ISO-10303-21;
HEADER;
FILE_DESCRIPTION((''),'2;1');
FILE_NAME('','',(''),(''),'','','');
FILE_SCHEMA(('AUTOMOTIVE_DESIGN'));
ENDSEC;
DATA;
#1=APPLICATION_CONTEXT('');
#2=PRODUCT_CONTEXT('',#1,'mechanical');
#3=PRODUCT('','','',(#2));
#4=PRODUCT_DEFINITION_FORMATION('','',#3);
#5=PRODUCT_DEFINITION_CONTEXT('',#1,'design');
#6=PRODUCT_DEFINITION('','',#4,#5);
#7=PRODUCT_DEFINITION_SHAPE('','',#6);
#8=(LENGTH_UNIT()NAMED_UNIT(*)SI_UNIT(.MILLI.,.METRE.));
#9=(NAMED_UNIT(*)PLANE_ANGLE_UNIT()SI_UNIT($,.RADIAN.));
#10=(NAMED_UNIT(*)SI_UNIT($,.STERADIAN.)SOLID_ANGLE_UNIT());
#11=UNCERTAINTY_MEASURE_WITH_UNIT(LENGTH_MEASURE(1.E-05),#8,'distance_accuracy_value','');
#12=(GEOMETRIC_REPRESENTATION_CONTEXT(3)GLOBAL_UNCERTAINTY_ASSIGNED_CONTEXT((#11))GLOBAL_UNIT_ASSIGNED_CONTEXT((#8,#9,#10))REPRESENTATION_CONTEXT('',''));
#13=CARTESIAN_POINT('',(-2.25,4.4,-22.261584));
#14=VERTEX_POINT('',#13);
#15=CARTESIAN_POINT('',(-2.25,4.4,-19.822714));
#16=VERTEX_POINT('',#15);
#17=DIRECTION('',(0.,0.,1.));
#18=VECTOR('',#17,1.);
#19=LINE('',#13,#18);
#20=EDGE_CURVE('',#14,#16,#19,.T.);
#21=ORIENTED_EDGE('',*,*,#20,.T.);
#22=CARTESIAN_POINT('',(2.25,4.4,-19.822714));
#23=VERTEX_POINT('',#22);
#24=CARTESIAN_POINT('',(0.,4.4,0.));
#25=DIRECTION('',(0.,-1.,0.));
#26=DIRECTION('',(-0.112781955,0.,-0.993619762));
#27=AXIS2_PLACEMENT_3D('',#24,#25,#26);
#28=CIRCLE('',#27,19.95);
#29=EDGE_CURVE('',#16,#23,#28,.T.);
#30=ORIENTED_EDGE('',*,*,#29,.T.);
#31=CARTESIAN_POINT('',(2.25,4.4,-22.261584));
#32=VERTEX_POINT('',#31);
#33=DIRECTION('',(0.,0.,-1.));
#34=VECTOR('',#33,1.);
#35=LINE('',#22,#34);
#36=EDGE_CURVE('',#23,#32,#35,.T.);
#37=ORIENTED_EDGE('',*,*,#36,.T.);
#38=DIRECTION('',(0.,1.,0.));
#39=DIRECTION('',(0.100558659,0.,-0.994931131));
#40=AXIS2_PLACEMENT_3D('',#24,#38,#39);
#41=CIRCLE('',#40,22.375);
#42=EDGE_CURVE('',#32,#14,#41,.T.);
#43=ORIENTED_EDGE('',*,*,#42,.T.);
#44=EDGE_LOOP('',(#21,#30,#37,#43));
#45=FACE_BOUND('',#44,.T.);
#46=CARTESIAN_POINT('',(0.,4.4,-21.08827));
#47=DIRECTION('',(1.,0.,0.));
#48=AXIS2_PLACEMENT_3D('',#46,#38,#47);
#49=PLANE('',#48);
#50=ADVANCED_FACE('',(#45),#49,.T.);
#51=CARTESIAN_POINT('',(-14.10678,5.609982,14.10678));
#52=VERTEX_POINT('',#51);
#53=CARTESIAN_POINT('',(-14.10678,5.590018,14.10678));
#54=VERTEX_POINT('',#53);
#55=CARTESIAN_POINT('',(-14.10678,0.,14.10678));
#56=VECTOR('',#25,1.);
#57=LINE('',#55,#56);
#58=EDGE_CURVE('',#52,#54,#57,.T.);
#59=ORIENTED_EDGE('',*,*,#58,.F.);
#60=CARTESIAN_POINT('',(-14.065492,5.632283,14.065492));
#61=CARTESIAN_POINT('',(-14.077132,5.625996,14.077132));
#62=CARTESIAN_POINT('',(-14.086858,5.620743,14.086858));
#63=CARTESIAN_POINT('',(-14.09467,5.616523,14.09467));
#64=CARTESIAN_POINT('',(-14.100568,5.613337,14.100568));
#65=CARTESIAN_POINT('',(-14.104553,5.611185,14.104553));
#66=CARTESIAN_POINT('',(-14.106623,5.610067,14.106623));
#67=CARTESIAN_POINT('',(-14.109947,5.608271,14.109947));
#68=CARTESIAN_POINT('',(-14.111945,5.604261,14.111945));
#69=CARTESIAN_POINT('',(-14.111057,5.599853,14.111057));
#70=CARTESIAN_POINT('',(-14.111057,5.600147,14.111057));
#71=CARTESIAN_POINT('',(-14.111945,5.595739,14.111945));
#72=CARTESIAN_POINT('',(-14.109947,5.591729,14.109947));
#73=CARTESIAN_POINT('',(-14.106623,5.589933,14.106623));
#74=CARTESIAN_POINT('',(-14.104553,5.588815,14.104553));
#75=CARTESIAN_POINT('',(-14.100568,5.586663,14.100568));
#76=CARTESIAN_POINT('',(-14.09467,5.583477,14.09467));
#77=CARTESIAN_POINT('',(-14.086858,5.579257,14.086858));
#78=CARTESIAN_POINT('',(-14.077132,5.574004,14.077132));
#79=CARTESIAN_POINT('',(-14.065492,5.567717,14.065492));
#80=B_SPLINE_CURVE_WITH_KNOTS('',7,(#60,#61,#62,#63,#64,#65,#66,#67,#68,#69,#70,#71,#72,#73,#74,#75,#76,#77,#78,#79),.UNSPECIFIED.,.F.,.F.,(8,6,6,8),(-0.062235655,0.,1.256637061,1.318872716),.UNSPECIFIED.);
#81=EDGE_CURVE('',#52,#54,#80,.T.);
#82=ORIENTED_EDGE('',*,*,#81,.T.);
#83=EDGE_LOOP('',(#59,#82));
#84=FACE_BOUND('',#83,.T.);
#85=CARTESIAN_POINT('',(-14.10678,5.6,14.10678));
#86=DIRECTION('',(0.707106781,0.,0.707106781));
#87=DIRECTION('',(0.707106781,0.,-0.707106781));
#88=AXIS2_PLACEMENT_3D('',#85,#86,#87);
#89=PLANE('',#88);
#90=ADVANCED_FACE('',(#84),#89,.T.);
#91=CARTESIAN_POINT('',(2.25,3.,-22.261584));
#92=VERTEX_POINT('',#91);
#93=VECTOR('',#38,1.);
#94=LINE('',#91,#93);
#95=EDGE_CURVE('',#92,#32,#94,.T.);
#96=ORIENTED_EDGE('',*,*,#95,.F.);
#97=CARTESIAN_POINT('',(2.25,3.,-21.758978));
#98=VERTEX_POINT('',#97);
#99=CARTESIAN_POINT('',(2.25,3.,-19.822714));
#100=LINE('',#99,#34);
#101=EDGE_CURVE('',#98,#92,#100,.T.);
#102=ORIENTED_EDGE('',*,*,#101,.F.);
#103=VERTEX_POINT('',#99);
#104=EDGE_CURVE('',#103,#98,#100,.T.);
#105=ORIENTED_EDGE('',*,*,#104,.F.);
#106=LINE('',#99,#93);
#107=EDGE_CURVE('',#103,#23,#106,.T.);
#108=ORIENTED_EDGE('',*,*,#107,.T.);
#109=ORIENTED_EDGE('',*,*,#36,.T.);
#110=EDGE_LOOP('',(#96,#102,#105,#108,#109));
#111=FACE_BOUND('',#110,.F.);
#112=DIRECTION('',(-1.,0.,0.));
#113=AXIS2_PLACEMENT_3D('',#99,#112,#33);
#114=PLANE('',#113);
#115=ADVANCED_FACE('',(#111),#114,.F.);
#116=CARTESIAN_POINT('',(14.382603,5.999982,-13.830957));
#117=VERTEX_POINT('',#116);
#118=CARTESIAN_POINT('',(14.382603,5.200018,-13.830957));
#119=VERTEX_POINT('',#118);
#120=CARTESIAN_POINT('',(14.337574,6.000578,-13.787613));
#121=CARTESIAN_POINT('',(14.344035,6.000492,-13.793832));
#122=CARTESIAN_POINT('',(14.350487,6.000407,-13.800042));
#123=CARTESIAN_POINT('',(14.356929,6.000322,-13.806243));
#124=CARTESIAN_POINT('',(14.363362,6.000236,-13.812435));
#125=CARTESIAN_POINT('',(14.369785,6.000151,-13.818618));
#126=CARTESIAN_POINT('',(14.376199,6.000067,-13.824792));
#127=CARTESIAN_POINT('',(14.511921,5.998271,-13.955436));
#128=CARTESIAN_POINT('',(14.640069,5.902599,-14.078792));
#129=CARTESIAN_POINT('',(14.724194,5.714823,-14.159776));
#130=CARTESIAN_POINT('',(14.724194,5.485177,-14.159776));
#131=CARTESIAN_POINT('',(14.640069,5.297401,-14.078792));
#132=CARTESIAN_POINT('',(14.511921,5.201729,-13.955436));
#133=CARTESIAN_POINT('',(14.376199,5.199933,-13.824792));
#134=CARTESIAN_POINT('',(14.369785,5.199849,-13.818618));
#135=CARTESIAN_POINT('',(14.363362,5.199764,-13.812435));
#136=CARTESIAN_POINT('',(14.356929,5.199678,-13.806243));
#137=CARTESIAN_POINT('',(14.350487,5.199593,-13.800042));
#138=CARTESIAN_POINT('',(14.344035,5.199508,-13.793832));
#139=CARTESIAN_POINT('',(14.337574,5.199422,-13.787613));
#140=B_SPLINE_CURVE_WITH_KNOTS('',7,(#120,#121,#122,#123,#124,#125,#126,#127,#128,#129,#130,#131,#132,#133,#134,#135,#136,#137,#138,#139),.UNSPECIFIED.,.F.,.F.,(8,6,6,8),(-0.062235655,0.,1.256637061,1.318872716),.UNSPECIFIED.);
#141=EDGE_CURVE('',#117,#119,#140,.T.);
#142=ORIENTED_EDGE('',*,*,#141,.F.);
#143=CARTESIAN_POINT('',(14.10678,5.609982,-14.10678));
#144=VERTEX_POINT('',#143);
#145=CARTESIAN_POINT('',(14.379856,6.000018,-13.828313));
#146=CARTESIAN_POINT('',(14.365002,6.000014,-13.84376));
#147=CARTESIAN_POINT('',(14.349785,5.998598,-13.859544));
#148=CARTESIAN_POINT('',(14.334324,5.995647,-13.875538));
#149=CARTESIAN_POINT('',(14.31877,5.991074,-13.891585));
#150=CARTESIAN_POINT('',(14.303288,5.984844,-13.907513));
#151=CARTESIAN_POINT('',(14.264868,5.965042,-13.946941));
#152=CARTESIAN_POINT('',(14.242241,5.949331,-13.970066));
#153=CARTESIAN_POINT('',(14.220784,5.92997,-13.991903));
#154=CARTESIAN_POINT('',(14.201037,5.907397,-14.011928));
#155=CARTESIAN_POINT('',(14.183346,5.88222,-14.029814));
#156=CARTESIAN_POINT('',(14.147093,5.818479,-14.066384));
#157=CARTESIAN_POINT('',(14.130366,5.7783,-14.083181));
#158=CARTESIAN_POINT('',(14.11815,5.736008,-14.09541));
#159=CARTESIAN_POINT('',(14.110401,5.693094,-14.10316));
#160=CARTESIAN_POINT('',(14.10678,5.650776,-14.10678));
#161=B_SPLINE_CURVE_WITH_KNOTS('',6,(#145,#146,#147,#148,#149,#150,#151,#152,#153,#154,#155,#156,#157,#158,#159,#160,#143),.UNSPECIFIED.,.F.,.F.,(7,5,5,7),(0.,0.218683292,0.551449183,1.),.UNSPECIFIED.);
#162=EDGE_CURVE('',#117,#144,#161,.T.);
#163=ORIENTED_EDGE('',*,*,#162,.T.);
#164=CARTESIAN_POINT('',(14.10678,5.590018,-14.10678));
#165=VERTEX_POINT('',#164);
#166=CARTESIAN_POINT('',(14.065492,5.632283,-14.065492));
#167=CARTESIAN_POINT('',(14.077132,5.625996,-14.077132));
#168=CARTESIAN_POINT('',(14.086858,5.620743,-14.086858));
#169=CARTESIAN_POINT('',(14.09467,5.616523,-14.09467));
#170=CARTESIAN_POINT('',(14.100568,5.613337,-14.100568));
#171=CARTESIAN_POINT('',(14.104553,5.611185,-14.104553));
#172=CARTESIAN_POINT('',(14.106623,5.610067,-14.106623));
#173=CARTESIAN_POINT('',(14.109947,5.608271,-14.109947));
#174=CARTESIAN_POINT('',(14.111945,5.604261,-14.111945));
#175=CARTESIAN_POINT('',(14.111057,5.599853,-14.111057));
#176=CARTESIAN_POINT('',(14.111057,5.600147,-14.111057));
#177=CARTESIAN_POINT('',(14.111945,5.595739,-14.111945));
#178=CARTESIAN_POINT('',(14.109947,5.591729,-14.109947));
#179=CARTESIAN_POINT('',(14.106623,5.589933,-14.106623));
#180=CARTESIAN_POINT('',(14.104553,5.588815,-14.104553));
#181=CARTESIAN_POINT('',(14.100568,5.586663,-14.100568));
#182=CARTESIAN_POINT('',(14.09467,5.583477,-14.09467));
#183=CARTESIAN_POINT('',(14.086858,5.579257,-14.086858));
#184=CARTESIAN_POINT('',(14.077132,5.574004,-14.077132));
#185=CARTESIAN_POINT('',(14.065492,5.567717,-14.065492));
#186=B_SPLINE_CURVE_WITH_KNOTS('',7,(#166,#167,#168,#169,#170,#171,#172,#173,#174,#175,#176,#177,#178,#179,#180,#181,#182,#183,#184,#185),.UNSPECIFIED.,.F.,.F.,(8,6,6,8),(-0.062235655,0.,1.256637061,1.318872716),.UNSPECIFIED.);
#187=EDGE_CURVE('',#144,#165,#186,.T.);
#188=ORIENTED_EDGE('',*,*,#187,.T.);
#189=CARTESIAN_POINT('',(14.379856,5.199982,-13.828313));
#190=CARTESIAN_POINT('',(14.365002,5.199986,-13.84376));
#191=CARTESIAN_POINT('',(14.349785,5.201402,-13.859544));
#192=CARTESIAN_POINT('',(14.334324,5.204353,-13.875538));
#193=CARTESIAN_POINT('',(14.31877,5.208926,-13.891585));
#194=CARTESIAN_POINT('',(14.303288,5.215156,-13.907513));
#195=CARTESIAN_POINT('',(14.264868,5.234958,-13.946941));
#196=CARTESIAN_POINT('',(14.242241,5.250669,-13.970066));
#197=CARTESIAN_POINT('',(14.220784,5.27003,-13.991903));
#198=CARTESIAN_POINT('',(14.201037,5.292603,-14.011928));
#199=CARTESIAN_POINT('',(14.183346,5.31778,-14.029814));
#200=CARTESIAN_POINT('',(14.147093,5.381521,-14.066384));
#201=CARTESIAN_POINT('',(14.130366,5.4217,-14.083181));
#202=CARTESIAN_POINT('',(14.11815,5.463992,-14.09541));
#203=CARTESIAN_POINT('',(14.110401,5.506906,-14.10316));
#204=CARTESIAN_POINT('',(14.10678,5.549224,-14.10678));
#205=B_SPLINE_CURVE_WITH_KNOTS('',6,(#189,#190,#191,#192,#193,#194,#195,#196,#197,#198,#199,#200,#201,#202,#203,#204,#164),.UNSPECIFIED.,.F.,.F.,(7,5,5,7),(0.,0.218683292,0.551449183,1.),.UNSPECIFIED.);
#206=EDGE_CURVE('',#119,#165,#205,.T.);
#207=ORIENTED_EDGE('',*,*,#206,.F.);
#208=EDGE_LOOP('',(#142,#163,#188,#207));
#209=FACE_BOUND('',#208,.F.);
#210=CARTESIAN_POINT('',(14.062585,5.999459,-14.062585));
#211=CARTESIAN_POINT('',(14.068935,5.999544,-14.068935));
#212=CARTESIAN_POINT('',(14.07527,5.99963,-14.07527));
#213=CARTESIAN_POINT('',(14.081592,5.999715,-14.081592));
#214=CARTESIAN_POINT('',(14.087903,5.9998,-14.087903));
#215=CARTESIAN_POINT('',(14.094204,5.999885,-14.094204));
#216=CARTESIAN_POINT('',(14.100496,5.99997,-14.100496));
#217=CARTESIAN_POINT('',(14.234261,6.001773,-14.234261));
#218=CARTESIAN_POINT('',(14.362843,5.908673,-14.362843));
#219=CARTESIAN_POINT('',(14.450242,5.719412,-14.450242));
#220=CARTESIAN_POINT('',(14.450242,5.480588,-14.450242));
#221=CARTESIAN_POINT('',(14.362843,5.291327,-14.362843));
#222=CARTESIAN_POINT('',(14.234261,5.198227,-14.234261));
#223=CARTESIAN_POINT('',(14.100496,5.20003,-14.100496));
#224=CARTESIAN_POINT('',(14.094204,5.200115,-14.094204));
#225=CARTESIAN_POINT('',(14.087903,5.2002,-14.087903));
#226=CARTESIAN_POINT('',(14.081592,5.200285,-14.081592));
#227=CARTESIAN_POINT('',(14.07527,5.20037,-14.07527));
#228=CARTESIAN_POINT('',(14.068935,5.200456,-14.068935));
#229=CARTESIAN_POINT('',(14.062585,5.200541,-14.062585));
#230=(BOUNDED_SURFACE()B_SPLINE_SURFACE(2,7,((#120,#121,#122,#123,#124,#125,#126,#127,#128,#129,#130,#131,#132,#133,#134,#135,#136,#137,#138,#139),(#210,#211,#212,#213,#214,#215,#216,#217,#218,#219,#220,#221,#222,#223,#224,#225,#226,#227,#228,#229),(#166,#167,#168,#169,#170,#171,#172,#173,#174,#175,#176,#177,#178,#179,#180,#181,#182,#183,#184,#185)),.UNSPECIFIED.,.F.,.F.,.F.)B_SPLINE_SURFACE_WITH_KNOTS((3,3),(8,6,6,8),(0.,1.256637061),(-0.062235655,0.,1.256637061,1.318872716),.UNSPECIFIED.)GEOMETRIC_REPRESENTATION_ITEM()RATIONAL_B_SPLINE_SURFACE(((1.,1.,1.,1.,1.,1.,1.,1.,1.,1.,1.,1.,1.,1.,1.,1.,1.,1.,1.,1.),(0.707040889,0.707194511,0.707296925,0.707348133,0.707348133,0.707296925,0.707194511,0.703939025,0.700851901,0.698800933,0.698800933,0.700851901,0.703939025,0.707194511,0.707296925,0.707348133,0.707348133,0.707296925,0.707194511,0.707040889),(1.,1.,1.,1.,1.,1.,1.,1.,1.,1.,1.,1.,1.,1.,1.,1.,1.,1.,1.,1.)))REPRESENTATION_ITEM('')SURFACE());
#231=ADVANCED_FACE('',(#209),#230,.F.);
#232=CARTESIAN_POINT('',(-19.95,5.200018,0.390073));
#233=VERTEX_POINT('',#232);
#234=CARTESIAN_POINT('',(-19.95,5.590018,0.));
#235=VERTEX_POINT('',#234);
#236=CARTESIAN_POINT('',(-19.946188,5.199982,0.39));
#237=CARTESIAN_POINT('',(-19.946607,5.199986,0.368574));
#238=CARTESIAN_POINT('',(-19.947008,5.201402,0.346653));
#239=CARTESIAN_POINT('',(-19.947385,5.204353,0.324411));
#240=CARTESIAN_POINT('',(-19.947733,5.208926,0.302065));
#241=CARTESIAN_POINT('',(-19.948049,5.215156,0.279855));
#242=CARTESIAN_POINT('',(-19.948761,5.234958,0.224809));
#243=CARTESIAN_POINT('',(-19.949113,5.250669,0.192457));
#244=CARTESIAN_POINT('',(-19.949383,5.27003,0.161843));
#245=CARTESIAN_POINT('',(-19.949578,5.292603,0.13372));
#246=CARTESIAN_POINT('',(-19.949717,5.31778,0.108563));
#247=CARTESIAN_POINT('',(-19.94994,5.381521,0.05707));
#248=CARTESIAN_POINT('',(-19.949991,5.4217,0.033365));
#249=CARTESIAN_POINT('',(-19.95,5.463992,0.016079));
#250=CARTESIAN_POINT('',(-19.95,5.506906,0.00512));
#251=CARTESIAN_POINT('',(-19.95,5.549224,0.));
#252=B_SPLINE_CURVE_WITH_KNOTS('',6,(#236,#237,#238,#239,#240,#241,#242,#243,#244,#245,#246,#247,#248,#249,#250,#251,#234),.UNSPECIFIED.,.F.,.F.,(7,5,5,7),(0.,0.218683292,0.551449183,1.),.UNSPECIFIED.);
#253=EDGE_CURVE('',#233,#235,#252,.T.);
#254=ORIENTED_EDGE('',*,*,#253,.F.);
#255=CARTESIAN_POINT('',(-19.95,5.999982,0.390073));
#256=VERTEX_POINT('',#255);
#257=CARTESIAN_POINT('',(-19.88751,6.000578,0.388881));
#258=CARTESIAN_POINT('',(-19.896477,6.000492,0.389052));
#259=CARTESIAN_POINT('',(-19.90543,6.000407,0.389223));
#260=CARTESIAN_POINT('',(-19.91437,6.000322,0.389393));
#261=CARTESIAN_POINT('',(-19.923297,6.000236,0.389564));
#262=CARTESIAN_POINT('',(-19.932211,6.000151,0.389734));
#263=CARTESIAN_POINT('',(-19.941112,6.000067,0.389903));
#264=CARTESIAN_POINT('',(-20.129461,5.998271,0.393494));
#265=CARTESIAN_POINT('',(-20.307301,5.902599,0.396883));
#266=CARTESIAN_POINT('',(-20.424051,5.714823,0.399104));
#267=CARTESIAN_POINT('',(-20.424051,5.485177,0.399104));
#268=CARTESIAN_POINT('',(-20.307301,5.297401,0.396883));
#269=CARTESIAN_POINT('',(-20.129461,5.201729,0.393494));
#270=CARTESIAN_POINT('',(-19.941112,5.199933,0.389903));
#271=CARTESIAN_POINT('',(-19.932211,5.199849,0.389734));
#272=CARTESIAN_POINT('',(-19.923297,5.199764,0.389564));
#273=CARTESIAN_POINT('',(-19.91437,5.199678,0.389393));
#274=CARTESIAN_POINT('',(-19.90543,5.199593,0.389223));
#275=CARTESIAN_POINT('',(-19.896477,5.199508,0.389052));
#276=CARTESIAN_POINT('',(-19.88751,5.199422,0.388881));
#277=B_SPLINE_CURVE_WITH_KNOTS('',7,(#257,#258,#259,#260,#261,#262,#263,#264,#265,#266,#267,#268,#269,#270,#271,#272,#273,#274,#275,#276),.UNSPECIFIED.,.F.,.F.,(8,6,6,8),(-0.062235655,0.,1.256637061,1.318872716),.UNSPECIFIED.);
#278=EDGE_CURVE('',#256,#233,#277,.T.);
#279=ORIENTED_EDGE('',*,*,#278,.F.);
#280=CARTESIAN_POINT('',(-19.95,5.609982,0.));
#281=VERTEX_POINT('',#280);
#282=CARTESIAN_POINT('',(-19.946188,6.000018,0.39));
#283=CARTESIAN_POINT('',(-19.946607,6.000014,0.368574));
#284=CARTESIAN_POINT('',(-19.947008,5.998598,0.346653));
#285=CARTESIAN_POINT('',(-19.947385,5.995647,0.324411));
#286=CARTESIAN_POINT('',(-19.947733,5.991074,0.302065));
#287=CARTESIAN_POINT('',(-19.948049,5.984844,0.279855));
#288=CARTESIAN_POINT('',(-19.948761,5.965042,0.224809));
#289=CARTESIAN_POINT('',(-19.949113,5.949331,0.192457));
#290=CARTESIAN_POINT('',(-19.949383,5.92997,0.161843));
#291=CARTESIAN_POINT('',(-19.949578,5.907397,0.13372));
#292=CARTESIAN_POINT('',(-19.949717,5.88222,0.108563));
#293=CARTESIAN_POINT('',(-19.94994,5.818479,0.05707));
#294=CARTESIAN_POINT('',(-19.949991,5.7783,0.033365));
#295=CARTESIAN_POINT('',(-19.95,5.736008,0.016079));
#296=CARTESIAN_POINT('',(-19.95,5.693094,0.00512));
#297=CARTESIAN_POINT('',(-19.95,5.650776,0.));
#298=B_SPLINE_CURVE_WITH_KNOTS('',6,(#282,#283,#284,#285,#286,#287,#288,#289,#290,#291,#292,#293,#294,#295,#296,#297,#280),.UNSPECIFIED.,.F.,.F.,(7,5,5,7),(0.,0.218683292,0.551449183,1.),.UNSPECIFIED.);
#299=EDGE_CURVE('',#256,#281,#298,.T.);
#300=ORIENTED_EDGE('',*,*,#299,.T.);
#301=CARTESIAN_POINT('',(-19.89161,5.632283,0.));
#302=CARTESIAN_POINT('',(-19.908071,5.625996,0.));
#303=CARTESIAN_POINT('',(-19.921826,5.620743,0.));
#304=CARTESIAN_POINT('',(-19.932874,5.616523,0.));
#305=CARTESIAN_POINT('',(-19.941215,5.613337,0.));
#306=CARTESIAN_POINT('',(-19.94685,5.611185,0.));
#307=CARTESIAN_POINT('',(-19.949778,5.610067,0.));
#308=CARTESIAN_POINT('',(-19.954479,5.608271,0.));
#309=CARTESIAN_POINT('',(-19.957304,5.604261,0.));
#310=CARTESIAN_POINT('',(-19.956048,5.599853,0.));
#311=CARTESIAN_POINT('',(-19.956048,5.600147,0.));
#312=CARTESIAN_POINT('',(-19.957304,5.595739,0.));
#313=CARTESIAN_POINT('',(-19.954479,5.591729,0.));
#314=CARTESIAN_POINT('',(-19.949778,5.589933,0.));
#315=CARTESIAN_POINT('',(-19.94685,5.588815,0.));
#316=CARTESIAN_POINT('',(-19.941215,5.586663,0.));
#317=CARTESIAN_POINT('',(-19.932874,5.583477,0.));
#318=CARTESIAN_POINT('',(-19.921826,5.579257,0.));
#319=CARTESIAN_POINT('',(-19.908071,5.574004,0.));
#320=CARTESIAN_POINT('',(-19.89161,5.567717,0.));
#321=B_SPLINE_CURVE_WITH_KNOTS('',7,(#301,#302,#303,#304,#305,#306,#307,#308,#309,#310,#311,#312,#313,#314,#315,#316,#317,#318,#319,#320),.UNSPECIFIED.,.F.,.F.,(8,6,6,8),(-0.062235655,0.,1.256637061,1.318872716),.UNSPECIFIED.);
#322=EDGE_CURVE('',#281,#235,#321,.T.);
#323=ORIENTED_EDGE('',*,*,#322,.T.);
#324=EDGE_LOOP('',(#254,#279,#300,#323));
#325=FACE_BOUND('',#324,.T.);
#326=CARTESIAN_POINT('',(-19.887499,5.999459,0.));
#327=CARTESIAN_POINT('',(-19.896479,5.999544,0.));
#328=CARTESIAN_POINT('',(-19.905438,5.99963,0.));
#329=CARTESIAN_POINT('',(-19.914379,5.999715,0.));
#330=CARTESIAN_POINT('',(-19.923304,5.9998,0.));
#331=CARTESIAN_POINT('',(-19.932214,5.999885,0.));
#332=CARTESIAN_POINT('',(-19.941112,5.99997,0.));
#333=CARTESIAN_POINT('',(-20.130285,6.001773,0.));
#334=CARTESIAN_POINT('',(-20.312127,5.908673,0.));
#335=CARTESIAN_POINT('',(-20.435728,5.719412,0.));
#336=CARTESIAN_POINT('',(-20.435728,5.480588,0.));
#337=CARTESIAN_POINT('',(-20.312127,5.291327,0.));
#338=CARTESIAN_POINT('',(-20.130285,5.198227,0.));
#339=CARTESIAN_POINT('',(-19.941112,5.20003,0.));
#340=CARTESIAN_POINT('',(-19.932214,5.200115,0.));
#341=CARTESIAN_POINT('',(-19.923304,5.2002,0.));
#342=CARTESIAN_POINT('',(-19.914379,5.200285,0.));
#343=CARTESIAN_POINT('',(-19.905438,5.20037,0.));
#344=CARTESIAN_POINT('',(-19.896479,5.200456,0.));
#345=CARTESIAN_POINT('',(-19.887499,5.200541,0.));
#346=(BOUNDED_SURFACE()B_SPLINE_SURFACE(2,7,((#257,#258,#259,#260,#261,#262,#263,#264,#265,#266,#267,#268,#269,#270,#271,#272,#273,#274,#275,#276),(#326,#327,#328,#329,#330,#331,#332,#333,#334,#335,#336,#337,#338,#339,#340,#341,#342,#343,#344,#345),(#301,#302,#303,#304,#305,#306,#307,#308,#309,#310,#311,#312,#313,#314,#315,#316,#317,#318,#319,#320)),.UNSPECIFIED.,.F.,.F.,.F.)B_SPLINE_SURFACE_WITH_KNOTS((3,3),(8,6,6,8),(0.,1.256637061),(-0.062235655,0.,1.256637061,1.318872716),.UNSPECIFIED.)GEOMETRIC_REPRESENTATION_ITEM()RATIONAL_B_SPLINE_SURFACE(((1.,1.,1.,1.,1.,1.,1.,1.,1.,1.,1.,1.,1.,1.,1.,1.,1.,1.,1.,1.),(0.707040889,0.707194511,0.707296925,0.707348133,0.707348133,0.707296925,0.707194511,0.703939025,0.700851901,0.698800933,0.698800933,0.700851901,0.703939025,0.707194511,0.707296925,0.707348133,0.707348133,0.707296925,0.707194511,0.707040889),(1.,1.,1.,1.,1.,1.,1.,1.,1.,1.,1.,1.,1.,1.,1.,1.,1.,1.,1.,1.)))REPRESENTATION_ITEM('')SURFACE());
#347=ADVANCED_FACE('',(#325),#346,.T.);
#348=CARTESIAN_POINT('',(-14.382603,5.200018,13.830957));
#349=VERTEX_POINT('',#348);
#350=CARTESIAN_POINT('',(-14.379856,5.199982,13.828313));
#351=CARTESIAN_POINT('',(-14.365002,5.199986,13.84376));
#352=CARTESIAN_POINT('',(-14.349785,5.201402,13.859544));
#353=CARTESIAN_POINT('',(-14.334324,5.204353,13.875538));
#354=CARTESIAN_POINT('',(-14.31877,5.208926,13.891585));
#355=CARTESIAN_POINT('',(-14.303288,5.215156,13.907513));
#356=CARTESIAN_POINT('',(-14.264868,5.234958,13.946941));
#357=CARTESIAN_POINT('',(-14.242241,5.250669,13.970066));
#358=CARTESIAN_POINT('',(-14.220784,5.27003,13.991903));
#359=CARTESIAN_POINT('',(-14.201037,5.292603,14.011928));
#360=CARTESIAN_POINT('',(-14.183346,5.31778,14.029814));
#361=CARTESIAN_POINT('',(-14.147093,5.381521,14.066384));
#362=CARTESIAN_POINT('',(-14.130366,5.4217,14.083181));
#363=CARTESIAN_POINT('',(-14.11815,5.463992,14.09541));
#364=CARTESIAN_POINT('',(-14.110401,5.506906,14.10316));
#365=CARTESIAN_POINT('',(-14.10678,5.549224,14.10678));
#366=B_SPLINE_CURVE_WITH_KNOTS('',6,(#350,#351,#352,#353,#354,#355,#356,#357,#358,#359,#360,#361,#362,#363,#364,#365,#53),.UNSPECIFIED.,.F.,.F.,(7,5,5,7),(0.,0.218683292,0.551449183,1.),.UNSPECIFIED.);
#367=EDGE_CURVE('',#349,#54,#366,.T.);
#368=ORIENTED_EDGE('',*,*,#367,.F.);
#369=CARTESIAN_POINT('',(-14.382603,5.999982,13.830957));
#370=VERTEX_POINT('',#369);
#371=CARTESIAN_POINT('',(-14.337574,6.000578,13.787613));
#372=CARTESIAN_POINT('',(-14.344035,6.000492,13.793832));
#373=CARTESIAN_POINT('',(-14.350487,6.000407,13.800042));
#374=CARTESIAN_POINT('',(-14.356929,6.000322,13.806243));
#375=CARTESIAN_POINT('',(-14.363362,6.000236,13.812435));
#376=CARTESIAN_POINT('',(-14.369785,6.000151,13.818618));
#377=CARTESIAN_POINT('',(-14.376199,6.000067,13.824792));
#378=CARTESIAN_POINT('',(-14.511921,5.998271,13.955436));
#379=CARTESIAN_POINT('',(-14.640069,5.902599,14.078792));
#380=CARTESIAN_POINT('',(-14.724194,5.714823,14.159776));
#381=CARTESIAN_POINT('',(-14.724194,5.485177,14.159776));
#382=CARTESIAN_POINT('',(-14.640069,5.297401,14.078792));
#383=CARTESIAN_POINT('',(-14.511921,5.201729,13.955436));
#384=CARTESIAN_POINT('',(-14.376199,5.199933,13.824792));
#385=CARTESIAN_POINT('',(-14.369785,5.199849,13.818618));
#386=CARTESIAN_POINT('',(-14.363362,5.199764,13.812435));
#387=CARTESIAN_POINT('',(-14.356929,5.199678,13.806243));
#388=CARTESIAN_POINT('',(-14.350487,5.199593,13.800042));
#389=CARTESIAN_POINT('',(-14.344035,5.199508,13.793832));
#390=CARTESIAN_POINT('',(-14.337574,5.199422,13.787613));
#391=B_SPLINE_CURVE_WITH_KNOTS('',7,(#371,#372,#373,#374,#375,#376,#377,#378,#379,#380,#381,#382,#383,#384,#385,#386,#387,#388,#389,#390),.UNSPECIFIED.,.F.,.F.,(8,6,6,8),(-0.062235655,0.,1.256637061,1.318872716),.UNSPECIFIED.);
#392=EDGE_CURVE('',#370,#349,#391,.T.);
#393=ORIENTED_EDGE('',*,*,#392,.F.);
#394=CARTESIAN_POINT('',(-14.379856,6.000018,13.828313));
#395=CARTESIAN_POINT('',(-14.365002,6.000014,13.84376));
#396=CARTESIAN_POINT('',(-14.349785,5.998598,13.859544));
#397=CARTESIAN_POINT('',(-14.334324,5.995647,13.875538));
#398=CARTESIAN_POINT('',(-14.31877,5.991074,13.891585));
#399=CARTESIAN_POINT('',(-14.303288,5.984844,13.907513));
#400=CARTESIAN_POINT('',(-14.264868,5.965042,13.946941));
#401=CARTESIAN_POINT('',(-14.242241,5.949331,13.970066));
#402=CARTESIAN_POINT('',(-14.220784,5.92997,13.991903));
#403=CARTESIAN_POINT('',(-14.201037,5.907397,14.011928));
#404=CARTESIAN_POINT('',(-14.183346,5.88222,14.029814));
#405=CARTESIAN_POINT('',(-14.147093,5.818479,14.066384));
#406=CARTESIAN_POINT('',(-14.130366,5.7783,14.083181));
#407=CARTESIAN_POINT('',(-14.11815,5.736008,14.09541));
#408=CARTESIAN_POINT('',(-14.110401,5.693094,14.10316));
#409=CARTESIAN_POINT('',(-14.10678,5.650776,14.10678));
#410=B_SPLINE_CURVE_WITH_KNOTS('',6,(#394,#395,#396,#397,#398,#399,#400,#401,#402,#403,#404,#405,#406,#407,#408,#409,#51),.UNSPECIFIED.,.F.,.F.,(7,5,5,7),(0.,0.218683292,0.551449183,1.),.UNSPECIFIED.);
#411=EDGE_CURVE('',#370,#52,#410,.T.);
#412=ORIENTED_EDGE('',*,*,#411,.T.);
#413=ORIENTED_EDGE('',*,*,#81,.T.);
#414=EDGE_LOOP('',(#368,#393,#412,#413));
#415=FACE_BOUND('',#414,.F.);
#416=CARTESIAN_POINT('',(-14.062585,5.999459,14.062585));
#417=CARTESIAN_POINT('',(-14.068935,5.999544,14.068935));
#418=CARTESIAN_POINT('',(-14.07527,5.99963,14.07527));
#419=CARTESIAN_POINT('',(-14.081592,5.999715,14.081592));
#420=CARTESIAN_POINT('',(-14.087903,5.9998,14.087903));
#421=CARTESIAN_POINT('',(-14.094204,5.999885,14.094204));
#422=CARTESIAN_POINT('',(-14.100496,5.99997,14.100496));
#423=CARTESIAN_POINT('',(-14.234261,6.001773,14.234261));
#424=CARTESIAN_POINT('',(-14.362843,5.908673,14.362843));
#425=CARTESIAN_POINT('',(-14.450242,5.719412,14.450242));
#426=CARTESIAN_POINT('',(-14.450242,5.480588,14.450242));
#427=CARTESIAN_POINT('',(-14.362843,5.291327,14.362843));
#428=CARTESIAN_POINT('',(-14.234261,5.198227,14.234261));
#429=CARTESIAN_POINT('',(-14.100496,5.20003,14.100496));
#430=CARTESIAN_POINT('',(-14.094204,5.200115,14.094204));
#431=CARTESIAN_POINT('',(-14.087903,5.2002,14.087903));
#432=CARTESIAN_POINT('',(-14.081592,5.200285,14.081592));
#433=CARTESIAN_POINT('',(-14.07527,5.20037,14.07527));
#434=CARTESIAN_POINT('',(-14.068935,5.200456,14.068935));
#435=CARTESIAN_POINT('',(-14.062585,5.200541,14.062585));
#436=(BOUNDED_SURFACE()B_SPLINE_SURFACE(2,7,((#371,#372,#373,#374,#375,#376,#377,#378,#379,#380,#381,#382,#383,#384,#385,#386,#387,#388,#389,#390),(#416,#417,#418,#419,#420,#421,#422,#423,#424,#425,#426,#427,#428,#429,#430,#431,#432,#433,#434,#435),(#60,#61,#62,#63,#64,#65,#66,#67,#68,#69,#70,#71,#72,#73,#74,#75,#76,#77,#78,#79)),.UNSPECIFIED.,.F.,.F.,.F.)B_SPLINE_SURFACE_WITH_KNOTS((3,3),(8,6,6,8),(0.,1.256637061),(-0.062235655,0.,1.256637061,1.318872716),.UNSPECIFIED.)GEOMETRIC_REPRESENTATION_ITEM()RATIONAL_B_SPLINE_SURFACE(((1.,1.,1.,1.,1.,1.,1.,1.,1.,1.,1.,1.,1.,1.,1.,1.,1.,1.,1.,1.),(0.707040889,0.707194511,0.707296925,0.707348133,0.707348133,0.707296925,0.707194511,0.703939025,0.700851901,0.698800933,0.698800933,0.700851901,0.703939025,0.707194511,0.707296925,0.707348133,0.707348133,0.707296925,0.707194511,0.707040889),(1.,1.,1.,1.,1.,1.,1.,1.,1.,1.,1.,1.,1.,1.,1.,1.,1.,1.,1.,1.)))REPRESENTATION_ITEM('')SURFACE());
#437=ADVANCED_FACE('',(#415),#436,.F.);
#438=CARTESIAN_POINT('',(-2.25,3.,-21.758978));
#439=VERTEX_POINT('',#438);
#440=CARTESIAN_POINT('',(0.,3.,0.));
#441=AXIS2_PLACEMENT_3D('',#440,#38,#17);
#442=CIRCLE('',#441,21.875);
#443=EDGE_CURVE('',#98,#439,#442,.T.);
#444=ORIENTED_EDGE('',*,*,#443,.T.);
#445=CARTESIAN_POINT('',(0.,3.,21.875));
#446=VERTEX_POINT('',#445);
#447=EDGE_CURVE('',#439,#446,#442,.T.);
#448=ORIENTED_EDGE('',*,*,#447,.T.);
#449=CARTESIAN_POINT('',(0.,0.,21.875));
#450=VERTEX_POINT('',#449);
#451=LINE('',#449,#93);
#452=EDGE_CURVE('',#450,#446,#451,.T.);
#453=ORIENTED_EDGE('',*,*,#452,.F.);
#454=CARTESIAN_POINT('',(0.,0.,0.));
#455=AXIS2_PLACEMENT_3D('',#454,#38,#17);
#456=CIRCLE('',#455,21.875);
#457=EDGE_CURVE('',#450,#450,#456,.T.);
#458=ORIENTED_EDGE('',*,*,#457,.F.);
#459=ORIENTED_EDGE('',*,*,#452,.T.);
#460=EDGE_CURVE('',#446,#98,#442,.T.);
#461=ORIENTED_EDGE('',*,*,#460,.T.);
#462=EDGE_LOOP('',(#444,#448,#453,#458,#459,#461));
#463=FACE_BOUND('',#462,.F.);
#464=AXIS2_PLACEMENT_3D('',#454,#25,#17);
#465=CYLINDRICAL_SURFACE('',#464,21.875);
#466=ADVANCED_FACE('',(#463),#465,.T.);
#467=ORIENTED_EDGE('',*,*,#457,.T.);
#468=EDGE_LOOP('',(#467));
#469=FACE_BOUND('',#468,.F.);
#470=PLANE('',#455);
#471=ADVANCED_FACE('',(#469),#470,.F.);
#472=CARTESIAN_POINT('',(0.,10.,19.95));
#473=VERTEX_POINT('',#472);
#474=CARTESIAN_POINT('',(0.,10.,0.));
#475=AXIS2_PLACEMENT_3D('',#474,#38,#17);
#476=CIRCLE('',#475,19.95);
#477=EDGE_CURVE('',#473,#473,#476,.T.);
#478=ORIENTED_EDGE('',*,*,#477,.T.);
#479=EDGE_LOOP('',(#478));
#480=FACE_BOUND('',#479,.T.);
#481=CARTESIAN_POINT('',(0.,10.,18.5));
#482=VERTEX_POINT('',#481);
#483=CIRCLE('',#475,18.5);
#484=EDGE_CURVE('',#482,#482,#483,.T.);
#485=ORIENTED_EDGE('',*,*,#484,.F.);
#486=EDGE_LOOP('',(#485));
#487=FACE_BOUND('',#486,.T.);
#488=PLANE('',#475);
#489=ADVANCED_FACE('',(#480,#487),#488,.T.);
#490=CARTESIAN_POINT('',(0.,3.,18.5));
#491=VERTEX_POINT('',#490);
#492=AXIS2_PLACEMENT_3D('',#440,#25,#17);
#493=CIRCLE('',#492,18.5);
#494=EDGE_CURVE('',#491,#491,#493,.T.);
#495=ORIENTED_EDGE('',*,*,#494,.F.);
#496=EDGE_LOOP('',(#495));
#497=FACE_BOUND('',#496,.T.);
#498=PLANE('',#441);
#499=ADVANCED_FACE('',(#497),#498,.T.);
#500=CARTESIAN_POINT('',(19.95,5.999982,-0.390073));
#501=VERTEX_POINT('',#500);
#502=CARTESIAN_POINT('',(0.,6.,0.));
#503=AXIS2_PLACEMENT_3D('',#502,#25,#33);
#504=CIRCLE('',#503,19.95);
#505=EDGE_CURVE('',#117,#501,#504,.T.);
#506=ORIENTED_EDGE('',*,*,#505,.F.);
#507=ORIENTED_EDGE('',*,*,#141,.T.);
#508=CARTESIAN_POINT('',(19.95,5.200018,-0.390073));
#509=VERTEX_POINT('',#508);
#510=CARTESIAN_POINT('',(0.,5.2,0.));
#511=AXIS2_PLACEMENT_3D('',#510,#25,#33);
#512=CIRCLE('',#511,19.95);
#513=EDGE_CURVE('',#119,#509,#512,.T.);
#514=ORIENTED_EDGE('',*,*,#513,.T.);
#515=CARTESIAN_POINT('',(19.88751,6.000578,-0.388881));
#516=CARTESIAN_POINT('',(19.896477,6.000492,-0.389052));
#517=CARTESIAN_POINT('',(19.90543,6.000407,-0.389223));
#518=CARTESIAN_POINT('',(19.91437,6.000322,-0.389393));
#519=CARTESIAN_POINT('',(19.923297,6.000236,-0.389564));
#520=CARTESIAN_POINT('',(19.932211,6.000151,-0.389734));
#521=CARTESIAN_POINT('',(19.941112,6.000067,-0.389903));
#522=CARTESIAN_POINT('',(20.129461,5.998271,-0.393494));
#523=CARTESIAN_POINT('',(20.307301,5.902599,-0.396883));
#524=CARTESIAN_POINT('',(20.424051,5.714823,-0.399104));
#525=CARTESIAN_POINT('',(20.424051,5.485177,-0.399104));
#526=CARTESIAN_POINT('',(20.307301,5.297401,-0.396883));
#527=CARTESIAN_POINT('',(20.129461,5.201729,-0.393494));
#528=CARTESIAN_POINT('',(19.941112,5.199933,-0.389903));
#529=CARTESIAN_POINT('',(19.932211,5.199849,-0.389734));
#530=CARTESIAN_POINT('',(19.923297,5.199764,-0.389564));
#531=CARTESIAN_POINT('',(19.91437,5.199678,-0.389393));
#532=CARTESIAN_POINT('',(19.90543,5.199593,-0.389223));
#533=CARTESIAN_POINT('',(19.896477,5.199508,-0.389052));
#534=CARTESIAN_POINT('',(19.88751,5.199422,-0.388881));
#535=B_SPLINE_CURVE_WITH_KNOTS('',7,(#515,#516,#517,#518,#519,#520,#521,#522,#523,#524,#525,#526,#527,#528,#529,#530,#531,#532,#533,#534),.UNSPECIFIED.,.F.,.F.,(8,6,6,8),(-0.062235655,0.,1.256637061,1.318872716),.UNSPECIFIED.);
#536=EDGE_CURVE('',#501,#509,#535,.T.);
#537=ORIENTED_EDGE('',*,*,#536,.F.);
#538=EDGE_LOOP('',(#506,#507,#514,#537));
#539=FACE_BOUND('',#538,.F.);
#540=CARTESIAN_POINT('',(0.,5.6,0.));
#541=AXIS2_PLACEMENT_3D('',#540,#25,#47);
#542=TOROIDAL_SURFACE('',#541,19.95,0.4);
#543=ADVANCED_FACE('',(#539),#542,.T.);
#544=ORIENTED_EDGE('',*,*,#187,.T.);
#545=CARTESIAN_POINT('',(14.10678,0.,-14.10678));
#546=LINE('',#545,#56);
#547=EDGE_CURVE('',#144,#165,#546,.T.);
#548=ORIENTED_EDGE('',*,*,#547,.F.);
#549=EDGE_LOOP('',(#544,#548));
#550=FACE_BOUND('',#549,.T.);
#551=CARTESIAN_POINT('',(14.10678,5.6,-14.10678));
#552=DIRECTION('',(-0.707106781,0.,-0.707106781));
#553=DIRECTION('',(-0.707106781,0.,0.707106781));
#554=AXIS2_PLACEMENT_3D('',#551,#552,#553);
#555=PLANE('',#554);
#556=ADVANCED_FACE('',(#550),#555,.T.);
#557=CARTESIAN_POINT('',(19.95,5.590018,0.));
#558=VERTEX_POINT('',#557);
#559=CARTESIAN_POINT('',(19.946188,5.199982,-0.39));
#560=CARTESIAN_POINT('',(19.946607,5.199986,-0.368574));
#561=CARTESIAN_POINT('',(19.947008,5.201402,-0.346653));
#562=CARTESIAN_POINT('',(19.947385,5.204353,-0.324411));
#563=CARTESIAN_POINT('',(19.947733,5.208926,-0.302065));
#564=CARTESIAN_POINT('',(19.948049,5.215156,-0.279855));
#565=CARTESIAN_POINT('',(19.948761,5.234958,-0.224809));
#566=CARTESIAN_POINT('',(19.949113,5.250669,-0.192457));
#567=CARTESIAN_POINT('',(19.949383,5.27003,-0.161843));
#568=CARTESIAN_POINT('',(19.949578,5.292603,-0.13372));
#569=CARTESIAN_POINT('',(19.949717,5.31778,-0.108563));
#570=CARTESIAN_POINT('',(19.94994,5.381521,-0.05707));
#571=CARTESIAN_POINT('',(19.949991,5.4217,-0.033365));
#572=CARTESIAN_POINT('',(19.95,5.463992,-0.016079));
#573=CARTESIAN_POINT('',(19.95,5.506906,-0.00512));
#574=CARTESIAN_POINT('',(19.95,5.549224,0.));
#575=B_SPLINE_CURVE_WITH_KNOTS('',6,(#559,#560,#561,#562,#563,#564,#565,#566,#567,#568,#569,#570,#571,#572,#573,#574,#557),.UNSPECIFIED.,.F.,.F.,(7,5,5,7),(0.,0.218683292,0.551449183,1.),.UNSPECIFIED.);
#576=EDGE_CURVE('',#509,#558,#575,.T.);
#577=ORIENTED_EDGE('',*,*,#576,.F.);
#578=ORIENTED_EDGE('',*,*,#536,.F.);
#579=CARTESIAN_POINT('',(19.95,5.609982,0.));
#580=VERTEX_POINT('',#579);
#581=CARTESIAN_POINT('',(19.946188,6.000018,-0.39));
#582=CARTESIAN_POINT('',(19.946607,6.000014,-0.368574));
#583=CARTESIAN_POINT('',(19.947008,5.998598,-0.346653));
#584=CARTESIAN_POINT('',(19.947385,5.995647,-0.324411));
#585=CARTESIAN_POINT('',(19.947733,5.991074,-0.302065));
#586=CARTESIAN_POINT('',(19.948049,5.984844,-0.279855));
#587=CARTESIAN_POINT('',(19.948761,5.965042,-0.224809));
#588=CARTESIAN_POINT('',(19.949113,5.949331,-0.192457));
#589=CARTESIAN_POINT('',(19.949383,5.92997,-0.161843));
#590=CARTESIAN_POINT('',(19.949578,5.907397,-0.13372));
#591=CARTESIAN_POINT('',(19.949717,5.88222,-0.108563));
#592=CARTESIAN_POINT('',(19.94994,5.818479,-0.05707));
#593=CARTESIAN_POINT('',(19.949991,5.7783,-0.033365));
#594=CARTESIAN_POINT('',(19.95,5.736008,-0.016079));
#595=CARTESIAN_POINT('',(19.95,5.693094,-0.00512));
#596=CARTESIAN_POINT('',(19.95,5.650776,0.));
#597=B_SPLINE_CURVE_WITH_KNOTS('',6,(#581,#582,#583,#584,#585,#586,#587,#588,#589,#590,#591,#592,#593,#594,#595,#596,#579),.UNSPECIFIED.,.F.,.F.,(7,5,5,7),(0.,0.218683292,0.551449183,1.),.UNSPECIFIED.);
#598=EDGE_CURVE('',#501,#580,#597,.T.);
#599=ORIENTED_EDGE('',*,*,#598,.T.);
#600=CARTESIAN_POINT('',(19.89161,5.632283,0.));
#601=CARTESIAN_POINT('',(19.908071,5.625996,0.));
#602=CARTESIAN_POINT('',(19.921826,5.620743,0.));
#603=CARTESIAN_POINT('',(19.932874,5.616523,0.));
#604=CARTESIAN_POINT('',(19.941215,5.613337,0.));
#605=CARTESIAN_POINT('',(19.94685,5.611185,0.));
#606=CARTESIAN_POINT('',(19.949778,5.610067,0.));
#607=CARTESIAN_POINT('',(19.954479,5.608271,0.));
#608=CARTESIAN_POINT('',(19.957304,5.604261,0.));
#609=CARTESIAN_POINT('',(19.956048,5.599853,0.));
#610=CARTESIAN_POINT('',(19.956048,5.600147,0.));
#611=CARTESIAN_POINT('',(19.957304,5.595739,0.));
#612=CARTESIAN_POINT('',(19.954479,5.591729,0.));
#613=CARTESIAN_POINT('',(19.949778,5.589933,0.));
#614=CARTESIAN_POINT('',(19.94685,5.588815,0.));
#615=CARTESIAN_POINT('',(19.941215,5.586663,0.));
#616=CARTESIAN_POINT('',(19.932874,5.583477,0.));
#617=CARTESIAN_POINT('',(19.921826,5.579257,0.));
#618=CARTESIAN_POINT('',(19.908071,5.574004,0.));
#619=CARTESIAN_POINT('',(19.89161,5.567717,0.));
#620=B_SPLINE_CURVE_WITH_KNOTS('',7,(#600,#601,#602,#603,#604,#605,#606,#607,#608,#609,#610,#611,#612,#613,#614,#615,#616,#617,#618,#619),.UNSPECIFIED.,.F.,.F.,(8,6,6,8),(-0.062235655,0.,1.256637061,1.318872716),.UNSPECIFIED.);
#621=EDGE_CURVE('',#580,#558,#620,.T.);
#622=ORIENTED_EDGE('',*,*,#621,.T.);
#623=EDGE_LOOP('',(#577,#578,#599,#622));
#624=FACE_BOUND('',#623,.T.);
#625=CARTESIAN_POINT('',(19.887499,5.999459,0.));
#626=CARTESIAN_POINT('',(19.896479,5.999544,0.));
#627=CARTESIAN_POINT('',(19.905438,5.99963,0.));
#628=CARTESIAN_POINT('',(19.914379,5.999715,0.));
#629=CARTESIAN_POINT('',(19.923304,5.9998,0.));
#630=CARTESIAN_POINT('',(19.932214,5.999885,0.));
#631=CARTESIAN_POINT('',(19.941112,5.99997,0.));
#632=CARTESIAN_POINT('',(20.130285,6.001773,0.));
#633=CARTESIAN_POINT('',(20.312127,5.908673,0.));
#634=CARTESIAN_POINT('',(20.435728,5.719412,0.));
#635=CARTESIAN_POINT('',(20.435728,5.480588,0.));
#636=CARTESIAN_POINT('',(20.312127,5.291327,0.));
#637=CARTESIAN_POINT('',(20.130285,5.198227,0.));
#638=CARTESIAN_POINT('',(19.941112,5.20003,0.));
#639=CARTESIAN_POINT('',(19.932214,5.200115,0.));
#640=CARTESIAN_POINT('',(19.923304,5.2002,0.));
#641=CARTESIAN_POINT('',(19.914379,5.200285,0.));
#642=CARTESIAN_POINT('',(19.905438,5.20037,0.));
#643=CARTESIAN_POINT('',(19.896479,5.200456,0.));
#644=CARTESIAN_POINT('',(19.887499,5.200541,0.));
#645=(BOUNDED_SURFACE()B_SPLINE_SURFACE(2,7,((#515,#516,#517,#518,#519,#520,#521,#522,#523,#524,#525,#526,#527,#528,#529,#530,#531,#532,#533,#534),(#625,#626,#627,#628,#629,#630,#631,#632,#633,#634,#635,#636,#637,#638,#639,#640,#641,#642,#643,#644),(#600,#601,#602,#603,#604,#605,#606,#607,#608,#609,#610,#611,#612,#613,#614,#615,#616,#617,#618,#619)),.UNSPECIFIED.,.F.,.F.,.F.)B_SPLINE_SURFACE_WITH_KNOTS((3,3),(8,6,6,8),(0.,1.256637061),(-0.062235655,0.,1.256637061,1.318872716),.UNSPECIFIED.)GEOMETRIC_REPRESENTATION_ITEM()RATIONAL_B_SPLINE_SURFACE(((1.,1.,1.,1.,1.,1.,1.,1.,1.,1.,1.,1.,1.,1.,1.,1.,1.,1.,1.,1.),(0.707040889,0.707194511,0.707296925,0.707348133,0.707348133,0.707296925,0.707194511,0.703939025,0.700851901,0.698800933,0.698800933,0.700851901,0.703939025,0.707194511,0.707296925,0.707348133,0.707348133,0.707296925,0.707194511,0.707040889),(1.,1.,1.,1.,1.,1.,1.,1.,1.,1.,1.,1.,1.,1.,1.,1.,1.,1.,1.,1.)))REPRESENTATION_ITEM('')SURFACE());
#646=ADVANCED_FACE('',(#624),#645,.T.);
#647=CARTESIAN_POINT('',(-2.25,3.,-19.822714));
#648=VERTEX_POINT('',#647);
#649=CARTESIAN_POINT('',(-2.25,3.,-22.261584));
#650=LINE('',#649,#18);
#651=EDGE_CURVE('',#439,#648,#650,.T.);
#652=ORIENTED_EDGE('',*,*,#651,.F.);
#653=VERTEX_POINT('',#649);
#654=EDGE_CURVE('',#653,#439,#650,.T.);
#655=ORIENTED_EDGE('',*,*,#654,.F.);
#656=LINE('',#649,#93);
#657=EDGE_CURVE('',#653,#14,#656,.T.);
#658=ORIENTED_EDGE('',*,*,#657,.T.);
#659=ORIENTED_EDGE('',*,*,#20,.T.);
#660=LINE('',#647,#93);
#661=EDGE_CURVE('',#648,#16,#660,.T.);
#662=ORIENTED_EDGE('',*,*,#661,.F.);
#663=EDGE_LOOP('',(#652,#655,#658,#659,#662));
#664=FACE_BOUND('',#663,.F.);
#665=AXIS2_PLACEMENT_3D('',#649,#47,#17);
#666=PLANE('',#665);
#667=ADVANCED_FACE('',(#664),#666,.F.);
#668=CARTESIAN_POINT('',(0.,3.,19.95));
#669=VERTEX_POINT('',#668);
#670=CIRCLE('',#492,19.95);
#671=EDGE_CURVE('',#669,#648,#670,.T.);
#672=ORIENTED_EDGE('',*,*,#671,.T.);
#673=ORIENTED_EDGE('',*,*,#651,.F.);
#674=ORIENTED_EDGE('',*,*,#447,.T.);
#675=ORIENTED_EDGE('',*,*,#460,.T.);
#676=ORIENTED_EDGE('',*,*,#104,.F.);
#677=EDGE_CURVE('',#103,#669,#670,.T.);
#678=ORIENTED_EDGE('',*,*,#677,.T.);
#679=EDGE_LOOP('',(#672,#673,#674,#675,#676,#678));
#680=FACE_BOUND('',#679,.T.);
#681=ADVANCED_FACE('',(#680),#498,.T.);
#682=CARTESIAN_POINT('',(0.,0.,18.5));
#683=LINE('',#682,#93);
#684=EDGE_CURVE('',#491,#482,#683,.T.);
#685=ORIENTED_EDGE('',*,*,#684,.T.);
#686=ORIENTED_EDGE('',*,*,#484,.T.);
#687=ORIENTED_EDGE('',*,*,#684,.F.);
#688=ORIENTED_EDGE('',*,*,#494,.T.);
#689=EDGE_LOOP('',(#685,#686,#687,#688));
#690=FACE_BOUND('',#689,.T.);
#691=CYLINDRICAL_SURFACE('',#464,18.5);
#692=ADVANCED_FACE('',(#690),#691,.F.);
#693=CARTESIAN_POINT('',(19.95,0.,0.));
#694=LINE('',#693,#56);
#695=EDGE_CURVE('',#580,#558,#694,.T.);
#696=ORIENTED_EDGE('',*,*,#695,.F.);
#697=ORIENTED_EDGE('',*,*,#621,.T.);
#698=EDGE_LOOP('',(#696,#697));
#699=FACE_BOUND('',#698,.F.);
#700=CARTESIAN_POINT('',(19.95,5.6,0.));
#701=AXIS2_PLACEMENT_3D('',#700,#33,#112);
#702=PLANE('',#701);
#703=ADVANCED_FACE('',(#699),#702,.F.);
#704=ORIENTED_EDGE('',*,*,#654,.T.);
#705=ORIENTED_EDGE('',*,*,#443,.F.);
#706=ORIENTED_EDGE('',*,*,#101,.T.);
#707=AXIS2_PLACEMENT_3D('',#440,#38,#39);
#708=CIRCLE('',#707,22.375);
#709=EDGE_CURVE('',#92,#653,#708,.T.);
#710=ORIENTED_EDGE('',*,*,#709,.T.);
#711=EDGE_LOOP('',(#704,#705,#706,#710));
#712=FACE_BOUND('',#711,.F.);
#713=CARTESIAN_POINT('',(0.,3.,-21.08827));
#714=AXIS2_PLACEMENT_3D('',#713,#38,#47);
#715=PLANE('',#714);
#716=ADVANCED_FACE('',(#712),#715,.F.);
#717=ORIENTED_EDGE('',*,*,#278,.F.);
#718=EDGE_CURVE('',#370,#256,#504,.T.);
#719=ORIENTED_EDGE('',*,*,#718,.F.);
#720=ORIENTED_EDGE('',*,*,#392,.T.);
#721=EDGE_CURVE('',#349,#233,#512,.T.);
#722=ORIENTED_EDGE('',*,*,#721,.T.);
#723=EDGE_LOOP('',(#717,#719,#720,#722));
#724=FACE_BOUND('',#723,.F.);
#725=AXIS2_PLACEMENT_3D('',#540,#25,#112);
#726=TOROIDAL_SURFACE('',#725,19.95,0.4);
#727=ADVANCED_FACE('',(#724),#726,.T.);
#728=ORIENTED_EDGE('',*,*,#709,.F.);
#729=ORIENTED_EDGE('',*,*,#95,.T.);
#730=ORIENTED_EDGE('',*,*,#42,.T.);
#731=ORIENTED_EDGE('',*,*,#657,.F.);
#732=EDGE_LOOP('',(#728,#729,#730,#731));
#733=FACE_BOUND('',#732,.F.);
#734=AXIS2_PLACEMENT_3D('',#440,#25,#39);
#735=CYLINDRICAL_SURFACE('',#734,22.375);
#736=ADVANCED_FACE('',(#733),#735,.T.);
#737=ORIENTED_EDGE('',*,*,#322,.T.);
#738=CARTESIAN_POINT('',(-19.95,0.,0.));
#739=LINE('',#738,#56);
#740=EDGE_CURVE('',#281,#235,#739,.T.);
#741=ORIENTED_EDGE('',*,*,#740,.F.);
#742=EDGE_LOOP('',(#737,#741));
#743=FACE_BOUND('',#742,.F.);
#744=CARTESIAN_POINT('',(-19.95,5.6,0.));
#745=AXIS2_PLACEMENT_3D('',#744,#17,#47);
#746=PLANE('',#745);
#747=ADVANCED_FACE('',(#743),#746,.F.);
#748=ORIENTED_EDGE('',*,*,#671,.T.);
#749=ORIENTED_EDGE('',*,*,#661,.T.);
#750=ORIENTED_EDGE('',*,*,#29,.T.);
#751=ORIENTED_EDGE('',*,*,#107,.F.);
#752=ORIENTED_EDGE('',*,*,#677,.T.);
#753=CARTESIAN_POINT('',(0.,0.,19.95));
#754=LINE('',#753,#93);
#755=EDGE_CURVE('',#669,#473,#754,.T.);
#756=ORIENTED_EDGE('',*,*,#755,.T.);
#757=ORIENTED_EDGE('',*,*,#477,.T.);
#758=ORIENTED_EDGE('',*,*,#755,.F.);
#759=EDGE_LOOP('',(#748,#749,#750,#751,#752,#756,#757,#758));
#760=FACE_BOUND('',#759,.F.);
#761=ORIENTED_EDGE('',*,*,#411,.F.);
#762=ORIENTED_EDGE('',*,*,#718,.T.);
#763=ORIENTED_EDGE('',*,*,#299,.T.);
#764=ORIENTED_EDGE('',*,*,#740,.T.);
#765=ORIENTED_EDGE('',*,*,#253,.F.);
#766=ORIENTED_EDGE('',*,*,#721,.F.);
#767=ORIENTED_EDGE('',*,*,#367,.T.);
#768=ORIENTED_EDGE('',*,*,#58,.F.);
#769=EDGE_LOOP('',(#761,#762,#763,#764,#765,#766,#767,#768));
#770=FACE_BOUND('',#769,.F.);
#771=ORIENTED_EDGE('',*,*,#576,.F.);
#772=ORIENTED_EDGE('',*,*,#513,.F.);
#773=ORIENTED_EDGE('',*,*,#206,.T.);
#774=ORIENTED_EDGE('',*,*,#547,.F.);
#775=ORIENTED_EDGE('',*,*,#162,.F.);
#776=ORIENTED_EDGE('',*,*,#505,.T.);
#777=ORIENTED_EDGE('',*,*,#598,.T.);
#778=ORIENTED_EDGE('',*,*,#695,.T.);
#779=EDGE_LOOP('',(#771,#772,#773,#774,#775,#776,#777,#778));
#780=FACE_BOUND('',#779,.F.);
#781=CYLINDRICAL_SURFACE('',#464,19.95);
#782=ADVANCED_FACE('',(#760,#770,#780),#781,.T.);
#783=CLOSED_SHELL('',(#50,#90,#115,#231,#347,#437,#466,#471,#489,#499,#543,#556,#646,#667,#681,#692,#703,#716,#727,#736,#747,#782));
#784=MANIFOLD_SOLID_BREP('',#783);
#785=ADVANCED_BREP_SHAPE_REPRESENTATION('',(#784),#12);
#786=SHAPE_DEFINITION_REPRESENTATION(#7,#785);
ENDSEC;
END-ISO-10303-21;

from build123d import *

# Parameters (mm, degrees)
SZKIC1_R                        = 21.875
DODANIE_WYCI_GNI_CIE1_DEPTH     = 3
DODANIE_WYCI_GNI_CIE2_START     = -3
SZKIC2_R                        = 19.95
SZKIC2_R_2                      = 18.5
DODANIE_WYCI_GNI_CIE2_DEPTH     = 10
DODANIE_WYCI_GNI_CIE3_DEPTH     = 1.4
SZKIC4_R                        = 0.4
OBR_T1_ANGLE                    = 45
ZAOKR_GLENIE2_R                 = 0.39
SZYK_KO_OWY5_COUNT              = 2
ZAOKR_GLENIE2_OF_SZYK_KO_OWY5_R = 0.39


with BuildPart() as part:
    # Szkic1 → Dodanie-wyciągnięcie1 (new body)
    with BuildSketch(Plane(origin=(0, 0, 0), x_dir=(1, 0, 0), z_dir=(0, 1, 0))):
        with Locations(Location((0, 0, 0), (0, 0, 270))):
            Circle(SZKIC1_R)
    extrude(amount=DODANIE_WYCI_GNI_CIE1_DEPTH)

    # Szkic2 → Dodanie-wyciągnięcie2 (add)
    with BuildSketch(Plane(origin=(0, 3, 0), x_dir=(1, 0, 0), z_dir=(0, 1, 0)).offset(DODANIE_WYCI_GNI_CIE2_START)):
        with Locations(Location((0, 0, 0), (0, 0, 270))):
            Circle(SZKIC2_R)
        with Locations(Location((0, 0, 0), (0, 0, 270))):
            Circle(SZKIC2_R_2, mode=Mode.SUBTRACT)
    extrude(amount=DODANIE_WYCI_GNI_CIE2_DEPTH)

    # Szkic3 → Dodanie-wyciągnięcie3 (add)
    with BuildSketch(Plane(origin=(0, 3, 0), x_dir=(1, 0, 0), z_dir=(0, 1, 0))):
        with BuildLine():
            Line((-2.25, 22.261584063), (-2.25, 19.822714244))
            ThreePointArc((-2.25, 19.822714244), (0, 19.95), (2.25, 19.822714244))
            Line((2.25, 19.822714244), (2.25, 22.261584063))
            ThreePointArc((2.25, 22.261584063), (0, 22.375), (-2.25, 22.261584063))
        make_face()
    extrude(amount=DODANIE_WYCI_GNI_CIE3_DEPTH)

    # Szkic4 → Obrót1 (revolve)
    with BuildSketch(Plane.XY):
        with Locations((-19.95, 5.6)):
            Circle(SZKIC4_R)
    obr_t1 = revolve(axis=Axis((0, -2.774596357, 0), (0, 1, 0)), revolution_arc=OBR_T1_ANGLE)

    # Zaokrąglenie2
    zaokr_glenie2_edges = [part.edges().sort_by_distance(p)[0] for p in [
        (-14.389622997, 5.6, 14.389622997),
        (-20.35, 5.6, 0),
    ]]
    fillet(zaokr_glenie2_edges, radius=ZAOKR_GLENIE2_R)

    # Szyk kołowy5: Obrót1 ×2 about axis
    szyk_ko_owy5_axis = Axis((0, 10, 0), (0, -1, 0))
    for i in range(1, SZYK_KO_OWY5_COUNT):
        add(obr_t1.rotate(szyk_ko_owy5_axis, i * 360 / SZYK_KO_OWY5_COUNT))

    # Zaokrąglenie2 of Szyk kołowy5
    zaokr_glenie2_of_szyk_ko_owy5_edges = [part.edges().sort_by_distance(p)[0] for p in [
        (14.389622997, 5.6, -14.389622997),
        (20.35, 5.6, 0),
    ]]
    fillet(zaokr_glenie2_of_szyk_ko_owy5_edges, radius=ZAOKR_GLENIE2_OF_SZYK_KO_OWY5_R)


solid = part.part
